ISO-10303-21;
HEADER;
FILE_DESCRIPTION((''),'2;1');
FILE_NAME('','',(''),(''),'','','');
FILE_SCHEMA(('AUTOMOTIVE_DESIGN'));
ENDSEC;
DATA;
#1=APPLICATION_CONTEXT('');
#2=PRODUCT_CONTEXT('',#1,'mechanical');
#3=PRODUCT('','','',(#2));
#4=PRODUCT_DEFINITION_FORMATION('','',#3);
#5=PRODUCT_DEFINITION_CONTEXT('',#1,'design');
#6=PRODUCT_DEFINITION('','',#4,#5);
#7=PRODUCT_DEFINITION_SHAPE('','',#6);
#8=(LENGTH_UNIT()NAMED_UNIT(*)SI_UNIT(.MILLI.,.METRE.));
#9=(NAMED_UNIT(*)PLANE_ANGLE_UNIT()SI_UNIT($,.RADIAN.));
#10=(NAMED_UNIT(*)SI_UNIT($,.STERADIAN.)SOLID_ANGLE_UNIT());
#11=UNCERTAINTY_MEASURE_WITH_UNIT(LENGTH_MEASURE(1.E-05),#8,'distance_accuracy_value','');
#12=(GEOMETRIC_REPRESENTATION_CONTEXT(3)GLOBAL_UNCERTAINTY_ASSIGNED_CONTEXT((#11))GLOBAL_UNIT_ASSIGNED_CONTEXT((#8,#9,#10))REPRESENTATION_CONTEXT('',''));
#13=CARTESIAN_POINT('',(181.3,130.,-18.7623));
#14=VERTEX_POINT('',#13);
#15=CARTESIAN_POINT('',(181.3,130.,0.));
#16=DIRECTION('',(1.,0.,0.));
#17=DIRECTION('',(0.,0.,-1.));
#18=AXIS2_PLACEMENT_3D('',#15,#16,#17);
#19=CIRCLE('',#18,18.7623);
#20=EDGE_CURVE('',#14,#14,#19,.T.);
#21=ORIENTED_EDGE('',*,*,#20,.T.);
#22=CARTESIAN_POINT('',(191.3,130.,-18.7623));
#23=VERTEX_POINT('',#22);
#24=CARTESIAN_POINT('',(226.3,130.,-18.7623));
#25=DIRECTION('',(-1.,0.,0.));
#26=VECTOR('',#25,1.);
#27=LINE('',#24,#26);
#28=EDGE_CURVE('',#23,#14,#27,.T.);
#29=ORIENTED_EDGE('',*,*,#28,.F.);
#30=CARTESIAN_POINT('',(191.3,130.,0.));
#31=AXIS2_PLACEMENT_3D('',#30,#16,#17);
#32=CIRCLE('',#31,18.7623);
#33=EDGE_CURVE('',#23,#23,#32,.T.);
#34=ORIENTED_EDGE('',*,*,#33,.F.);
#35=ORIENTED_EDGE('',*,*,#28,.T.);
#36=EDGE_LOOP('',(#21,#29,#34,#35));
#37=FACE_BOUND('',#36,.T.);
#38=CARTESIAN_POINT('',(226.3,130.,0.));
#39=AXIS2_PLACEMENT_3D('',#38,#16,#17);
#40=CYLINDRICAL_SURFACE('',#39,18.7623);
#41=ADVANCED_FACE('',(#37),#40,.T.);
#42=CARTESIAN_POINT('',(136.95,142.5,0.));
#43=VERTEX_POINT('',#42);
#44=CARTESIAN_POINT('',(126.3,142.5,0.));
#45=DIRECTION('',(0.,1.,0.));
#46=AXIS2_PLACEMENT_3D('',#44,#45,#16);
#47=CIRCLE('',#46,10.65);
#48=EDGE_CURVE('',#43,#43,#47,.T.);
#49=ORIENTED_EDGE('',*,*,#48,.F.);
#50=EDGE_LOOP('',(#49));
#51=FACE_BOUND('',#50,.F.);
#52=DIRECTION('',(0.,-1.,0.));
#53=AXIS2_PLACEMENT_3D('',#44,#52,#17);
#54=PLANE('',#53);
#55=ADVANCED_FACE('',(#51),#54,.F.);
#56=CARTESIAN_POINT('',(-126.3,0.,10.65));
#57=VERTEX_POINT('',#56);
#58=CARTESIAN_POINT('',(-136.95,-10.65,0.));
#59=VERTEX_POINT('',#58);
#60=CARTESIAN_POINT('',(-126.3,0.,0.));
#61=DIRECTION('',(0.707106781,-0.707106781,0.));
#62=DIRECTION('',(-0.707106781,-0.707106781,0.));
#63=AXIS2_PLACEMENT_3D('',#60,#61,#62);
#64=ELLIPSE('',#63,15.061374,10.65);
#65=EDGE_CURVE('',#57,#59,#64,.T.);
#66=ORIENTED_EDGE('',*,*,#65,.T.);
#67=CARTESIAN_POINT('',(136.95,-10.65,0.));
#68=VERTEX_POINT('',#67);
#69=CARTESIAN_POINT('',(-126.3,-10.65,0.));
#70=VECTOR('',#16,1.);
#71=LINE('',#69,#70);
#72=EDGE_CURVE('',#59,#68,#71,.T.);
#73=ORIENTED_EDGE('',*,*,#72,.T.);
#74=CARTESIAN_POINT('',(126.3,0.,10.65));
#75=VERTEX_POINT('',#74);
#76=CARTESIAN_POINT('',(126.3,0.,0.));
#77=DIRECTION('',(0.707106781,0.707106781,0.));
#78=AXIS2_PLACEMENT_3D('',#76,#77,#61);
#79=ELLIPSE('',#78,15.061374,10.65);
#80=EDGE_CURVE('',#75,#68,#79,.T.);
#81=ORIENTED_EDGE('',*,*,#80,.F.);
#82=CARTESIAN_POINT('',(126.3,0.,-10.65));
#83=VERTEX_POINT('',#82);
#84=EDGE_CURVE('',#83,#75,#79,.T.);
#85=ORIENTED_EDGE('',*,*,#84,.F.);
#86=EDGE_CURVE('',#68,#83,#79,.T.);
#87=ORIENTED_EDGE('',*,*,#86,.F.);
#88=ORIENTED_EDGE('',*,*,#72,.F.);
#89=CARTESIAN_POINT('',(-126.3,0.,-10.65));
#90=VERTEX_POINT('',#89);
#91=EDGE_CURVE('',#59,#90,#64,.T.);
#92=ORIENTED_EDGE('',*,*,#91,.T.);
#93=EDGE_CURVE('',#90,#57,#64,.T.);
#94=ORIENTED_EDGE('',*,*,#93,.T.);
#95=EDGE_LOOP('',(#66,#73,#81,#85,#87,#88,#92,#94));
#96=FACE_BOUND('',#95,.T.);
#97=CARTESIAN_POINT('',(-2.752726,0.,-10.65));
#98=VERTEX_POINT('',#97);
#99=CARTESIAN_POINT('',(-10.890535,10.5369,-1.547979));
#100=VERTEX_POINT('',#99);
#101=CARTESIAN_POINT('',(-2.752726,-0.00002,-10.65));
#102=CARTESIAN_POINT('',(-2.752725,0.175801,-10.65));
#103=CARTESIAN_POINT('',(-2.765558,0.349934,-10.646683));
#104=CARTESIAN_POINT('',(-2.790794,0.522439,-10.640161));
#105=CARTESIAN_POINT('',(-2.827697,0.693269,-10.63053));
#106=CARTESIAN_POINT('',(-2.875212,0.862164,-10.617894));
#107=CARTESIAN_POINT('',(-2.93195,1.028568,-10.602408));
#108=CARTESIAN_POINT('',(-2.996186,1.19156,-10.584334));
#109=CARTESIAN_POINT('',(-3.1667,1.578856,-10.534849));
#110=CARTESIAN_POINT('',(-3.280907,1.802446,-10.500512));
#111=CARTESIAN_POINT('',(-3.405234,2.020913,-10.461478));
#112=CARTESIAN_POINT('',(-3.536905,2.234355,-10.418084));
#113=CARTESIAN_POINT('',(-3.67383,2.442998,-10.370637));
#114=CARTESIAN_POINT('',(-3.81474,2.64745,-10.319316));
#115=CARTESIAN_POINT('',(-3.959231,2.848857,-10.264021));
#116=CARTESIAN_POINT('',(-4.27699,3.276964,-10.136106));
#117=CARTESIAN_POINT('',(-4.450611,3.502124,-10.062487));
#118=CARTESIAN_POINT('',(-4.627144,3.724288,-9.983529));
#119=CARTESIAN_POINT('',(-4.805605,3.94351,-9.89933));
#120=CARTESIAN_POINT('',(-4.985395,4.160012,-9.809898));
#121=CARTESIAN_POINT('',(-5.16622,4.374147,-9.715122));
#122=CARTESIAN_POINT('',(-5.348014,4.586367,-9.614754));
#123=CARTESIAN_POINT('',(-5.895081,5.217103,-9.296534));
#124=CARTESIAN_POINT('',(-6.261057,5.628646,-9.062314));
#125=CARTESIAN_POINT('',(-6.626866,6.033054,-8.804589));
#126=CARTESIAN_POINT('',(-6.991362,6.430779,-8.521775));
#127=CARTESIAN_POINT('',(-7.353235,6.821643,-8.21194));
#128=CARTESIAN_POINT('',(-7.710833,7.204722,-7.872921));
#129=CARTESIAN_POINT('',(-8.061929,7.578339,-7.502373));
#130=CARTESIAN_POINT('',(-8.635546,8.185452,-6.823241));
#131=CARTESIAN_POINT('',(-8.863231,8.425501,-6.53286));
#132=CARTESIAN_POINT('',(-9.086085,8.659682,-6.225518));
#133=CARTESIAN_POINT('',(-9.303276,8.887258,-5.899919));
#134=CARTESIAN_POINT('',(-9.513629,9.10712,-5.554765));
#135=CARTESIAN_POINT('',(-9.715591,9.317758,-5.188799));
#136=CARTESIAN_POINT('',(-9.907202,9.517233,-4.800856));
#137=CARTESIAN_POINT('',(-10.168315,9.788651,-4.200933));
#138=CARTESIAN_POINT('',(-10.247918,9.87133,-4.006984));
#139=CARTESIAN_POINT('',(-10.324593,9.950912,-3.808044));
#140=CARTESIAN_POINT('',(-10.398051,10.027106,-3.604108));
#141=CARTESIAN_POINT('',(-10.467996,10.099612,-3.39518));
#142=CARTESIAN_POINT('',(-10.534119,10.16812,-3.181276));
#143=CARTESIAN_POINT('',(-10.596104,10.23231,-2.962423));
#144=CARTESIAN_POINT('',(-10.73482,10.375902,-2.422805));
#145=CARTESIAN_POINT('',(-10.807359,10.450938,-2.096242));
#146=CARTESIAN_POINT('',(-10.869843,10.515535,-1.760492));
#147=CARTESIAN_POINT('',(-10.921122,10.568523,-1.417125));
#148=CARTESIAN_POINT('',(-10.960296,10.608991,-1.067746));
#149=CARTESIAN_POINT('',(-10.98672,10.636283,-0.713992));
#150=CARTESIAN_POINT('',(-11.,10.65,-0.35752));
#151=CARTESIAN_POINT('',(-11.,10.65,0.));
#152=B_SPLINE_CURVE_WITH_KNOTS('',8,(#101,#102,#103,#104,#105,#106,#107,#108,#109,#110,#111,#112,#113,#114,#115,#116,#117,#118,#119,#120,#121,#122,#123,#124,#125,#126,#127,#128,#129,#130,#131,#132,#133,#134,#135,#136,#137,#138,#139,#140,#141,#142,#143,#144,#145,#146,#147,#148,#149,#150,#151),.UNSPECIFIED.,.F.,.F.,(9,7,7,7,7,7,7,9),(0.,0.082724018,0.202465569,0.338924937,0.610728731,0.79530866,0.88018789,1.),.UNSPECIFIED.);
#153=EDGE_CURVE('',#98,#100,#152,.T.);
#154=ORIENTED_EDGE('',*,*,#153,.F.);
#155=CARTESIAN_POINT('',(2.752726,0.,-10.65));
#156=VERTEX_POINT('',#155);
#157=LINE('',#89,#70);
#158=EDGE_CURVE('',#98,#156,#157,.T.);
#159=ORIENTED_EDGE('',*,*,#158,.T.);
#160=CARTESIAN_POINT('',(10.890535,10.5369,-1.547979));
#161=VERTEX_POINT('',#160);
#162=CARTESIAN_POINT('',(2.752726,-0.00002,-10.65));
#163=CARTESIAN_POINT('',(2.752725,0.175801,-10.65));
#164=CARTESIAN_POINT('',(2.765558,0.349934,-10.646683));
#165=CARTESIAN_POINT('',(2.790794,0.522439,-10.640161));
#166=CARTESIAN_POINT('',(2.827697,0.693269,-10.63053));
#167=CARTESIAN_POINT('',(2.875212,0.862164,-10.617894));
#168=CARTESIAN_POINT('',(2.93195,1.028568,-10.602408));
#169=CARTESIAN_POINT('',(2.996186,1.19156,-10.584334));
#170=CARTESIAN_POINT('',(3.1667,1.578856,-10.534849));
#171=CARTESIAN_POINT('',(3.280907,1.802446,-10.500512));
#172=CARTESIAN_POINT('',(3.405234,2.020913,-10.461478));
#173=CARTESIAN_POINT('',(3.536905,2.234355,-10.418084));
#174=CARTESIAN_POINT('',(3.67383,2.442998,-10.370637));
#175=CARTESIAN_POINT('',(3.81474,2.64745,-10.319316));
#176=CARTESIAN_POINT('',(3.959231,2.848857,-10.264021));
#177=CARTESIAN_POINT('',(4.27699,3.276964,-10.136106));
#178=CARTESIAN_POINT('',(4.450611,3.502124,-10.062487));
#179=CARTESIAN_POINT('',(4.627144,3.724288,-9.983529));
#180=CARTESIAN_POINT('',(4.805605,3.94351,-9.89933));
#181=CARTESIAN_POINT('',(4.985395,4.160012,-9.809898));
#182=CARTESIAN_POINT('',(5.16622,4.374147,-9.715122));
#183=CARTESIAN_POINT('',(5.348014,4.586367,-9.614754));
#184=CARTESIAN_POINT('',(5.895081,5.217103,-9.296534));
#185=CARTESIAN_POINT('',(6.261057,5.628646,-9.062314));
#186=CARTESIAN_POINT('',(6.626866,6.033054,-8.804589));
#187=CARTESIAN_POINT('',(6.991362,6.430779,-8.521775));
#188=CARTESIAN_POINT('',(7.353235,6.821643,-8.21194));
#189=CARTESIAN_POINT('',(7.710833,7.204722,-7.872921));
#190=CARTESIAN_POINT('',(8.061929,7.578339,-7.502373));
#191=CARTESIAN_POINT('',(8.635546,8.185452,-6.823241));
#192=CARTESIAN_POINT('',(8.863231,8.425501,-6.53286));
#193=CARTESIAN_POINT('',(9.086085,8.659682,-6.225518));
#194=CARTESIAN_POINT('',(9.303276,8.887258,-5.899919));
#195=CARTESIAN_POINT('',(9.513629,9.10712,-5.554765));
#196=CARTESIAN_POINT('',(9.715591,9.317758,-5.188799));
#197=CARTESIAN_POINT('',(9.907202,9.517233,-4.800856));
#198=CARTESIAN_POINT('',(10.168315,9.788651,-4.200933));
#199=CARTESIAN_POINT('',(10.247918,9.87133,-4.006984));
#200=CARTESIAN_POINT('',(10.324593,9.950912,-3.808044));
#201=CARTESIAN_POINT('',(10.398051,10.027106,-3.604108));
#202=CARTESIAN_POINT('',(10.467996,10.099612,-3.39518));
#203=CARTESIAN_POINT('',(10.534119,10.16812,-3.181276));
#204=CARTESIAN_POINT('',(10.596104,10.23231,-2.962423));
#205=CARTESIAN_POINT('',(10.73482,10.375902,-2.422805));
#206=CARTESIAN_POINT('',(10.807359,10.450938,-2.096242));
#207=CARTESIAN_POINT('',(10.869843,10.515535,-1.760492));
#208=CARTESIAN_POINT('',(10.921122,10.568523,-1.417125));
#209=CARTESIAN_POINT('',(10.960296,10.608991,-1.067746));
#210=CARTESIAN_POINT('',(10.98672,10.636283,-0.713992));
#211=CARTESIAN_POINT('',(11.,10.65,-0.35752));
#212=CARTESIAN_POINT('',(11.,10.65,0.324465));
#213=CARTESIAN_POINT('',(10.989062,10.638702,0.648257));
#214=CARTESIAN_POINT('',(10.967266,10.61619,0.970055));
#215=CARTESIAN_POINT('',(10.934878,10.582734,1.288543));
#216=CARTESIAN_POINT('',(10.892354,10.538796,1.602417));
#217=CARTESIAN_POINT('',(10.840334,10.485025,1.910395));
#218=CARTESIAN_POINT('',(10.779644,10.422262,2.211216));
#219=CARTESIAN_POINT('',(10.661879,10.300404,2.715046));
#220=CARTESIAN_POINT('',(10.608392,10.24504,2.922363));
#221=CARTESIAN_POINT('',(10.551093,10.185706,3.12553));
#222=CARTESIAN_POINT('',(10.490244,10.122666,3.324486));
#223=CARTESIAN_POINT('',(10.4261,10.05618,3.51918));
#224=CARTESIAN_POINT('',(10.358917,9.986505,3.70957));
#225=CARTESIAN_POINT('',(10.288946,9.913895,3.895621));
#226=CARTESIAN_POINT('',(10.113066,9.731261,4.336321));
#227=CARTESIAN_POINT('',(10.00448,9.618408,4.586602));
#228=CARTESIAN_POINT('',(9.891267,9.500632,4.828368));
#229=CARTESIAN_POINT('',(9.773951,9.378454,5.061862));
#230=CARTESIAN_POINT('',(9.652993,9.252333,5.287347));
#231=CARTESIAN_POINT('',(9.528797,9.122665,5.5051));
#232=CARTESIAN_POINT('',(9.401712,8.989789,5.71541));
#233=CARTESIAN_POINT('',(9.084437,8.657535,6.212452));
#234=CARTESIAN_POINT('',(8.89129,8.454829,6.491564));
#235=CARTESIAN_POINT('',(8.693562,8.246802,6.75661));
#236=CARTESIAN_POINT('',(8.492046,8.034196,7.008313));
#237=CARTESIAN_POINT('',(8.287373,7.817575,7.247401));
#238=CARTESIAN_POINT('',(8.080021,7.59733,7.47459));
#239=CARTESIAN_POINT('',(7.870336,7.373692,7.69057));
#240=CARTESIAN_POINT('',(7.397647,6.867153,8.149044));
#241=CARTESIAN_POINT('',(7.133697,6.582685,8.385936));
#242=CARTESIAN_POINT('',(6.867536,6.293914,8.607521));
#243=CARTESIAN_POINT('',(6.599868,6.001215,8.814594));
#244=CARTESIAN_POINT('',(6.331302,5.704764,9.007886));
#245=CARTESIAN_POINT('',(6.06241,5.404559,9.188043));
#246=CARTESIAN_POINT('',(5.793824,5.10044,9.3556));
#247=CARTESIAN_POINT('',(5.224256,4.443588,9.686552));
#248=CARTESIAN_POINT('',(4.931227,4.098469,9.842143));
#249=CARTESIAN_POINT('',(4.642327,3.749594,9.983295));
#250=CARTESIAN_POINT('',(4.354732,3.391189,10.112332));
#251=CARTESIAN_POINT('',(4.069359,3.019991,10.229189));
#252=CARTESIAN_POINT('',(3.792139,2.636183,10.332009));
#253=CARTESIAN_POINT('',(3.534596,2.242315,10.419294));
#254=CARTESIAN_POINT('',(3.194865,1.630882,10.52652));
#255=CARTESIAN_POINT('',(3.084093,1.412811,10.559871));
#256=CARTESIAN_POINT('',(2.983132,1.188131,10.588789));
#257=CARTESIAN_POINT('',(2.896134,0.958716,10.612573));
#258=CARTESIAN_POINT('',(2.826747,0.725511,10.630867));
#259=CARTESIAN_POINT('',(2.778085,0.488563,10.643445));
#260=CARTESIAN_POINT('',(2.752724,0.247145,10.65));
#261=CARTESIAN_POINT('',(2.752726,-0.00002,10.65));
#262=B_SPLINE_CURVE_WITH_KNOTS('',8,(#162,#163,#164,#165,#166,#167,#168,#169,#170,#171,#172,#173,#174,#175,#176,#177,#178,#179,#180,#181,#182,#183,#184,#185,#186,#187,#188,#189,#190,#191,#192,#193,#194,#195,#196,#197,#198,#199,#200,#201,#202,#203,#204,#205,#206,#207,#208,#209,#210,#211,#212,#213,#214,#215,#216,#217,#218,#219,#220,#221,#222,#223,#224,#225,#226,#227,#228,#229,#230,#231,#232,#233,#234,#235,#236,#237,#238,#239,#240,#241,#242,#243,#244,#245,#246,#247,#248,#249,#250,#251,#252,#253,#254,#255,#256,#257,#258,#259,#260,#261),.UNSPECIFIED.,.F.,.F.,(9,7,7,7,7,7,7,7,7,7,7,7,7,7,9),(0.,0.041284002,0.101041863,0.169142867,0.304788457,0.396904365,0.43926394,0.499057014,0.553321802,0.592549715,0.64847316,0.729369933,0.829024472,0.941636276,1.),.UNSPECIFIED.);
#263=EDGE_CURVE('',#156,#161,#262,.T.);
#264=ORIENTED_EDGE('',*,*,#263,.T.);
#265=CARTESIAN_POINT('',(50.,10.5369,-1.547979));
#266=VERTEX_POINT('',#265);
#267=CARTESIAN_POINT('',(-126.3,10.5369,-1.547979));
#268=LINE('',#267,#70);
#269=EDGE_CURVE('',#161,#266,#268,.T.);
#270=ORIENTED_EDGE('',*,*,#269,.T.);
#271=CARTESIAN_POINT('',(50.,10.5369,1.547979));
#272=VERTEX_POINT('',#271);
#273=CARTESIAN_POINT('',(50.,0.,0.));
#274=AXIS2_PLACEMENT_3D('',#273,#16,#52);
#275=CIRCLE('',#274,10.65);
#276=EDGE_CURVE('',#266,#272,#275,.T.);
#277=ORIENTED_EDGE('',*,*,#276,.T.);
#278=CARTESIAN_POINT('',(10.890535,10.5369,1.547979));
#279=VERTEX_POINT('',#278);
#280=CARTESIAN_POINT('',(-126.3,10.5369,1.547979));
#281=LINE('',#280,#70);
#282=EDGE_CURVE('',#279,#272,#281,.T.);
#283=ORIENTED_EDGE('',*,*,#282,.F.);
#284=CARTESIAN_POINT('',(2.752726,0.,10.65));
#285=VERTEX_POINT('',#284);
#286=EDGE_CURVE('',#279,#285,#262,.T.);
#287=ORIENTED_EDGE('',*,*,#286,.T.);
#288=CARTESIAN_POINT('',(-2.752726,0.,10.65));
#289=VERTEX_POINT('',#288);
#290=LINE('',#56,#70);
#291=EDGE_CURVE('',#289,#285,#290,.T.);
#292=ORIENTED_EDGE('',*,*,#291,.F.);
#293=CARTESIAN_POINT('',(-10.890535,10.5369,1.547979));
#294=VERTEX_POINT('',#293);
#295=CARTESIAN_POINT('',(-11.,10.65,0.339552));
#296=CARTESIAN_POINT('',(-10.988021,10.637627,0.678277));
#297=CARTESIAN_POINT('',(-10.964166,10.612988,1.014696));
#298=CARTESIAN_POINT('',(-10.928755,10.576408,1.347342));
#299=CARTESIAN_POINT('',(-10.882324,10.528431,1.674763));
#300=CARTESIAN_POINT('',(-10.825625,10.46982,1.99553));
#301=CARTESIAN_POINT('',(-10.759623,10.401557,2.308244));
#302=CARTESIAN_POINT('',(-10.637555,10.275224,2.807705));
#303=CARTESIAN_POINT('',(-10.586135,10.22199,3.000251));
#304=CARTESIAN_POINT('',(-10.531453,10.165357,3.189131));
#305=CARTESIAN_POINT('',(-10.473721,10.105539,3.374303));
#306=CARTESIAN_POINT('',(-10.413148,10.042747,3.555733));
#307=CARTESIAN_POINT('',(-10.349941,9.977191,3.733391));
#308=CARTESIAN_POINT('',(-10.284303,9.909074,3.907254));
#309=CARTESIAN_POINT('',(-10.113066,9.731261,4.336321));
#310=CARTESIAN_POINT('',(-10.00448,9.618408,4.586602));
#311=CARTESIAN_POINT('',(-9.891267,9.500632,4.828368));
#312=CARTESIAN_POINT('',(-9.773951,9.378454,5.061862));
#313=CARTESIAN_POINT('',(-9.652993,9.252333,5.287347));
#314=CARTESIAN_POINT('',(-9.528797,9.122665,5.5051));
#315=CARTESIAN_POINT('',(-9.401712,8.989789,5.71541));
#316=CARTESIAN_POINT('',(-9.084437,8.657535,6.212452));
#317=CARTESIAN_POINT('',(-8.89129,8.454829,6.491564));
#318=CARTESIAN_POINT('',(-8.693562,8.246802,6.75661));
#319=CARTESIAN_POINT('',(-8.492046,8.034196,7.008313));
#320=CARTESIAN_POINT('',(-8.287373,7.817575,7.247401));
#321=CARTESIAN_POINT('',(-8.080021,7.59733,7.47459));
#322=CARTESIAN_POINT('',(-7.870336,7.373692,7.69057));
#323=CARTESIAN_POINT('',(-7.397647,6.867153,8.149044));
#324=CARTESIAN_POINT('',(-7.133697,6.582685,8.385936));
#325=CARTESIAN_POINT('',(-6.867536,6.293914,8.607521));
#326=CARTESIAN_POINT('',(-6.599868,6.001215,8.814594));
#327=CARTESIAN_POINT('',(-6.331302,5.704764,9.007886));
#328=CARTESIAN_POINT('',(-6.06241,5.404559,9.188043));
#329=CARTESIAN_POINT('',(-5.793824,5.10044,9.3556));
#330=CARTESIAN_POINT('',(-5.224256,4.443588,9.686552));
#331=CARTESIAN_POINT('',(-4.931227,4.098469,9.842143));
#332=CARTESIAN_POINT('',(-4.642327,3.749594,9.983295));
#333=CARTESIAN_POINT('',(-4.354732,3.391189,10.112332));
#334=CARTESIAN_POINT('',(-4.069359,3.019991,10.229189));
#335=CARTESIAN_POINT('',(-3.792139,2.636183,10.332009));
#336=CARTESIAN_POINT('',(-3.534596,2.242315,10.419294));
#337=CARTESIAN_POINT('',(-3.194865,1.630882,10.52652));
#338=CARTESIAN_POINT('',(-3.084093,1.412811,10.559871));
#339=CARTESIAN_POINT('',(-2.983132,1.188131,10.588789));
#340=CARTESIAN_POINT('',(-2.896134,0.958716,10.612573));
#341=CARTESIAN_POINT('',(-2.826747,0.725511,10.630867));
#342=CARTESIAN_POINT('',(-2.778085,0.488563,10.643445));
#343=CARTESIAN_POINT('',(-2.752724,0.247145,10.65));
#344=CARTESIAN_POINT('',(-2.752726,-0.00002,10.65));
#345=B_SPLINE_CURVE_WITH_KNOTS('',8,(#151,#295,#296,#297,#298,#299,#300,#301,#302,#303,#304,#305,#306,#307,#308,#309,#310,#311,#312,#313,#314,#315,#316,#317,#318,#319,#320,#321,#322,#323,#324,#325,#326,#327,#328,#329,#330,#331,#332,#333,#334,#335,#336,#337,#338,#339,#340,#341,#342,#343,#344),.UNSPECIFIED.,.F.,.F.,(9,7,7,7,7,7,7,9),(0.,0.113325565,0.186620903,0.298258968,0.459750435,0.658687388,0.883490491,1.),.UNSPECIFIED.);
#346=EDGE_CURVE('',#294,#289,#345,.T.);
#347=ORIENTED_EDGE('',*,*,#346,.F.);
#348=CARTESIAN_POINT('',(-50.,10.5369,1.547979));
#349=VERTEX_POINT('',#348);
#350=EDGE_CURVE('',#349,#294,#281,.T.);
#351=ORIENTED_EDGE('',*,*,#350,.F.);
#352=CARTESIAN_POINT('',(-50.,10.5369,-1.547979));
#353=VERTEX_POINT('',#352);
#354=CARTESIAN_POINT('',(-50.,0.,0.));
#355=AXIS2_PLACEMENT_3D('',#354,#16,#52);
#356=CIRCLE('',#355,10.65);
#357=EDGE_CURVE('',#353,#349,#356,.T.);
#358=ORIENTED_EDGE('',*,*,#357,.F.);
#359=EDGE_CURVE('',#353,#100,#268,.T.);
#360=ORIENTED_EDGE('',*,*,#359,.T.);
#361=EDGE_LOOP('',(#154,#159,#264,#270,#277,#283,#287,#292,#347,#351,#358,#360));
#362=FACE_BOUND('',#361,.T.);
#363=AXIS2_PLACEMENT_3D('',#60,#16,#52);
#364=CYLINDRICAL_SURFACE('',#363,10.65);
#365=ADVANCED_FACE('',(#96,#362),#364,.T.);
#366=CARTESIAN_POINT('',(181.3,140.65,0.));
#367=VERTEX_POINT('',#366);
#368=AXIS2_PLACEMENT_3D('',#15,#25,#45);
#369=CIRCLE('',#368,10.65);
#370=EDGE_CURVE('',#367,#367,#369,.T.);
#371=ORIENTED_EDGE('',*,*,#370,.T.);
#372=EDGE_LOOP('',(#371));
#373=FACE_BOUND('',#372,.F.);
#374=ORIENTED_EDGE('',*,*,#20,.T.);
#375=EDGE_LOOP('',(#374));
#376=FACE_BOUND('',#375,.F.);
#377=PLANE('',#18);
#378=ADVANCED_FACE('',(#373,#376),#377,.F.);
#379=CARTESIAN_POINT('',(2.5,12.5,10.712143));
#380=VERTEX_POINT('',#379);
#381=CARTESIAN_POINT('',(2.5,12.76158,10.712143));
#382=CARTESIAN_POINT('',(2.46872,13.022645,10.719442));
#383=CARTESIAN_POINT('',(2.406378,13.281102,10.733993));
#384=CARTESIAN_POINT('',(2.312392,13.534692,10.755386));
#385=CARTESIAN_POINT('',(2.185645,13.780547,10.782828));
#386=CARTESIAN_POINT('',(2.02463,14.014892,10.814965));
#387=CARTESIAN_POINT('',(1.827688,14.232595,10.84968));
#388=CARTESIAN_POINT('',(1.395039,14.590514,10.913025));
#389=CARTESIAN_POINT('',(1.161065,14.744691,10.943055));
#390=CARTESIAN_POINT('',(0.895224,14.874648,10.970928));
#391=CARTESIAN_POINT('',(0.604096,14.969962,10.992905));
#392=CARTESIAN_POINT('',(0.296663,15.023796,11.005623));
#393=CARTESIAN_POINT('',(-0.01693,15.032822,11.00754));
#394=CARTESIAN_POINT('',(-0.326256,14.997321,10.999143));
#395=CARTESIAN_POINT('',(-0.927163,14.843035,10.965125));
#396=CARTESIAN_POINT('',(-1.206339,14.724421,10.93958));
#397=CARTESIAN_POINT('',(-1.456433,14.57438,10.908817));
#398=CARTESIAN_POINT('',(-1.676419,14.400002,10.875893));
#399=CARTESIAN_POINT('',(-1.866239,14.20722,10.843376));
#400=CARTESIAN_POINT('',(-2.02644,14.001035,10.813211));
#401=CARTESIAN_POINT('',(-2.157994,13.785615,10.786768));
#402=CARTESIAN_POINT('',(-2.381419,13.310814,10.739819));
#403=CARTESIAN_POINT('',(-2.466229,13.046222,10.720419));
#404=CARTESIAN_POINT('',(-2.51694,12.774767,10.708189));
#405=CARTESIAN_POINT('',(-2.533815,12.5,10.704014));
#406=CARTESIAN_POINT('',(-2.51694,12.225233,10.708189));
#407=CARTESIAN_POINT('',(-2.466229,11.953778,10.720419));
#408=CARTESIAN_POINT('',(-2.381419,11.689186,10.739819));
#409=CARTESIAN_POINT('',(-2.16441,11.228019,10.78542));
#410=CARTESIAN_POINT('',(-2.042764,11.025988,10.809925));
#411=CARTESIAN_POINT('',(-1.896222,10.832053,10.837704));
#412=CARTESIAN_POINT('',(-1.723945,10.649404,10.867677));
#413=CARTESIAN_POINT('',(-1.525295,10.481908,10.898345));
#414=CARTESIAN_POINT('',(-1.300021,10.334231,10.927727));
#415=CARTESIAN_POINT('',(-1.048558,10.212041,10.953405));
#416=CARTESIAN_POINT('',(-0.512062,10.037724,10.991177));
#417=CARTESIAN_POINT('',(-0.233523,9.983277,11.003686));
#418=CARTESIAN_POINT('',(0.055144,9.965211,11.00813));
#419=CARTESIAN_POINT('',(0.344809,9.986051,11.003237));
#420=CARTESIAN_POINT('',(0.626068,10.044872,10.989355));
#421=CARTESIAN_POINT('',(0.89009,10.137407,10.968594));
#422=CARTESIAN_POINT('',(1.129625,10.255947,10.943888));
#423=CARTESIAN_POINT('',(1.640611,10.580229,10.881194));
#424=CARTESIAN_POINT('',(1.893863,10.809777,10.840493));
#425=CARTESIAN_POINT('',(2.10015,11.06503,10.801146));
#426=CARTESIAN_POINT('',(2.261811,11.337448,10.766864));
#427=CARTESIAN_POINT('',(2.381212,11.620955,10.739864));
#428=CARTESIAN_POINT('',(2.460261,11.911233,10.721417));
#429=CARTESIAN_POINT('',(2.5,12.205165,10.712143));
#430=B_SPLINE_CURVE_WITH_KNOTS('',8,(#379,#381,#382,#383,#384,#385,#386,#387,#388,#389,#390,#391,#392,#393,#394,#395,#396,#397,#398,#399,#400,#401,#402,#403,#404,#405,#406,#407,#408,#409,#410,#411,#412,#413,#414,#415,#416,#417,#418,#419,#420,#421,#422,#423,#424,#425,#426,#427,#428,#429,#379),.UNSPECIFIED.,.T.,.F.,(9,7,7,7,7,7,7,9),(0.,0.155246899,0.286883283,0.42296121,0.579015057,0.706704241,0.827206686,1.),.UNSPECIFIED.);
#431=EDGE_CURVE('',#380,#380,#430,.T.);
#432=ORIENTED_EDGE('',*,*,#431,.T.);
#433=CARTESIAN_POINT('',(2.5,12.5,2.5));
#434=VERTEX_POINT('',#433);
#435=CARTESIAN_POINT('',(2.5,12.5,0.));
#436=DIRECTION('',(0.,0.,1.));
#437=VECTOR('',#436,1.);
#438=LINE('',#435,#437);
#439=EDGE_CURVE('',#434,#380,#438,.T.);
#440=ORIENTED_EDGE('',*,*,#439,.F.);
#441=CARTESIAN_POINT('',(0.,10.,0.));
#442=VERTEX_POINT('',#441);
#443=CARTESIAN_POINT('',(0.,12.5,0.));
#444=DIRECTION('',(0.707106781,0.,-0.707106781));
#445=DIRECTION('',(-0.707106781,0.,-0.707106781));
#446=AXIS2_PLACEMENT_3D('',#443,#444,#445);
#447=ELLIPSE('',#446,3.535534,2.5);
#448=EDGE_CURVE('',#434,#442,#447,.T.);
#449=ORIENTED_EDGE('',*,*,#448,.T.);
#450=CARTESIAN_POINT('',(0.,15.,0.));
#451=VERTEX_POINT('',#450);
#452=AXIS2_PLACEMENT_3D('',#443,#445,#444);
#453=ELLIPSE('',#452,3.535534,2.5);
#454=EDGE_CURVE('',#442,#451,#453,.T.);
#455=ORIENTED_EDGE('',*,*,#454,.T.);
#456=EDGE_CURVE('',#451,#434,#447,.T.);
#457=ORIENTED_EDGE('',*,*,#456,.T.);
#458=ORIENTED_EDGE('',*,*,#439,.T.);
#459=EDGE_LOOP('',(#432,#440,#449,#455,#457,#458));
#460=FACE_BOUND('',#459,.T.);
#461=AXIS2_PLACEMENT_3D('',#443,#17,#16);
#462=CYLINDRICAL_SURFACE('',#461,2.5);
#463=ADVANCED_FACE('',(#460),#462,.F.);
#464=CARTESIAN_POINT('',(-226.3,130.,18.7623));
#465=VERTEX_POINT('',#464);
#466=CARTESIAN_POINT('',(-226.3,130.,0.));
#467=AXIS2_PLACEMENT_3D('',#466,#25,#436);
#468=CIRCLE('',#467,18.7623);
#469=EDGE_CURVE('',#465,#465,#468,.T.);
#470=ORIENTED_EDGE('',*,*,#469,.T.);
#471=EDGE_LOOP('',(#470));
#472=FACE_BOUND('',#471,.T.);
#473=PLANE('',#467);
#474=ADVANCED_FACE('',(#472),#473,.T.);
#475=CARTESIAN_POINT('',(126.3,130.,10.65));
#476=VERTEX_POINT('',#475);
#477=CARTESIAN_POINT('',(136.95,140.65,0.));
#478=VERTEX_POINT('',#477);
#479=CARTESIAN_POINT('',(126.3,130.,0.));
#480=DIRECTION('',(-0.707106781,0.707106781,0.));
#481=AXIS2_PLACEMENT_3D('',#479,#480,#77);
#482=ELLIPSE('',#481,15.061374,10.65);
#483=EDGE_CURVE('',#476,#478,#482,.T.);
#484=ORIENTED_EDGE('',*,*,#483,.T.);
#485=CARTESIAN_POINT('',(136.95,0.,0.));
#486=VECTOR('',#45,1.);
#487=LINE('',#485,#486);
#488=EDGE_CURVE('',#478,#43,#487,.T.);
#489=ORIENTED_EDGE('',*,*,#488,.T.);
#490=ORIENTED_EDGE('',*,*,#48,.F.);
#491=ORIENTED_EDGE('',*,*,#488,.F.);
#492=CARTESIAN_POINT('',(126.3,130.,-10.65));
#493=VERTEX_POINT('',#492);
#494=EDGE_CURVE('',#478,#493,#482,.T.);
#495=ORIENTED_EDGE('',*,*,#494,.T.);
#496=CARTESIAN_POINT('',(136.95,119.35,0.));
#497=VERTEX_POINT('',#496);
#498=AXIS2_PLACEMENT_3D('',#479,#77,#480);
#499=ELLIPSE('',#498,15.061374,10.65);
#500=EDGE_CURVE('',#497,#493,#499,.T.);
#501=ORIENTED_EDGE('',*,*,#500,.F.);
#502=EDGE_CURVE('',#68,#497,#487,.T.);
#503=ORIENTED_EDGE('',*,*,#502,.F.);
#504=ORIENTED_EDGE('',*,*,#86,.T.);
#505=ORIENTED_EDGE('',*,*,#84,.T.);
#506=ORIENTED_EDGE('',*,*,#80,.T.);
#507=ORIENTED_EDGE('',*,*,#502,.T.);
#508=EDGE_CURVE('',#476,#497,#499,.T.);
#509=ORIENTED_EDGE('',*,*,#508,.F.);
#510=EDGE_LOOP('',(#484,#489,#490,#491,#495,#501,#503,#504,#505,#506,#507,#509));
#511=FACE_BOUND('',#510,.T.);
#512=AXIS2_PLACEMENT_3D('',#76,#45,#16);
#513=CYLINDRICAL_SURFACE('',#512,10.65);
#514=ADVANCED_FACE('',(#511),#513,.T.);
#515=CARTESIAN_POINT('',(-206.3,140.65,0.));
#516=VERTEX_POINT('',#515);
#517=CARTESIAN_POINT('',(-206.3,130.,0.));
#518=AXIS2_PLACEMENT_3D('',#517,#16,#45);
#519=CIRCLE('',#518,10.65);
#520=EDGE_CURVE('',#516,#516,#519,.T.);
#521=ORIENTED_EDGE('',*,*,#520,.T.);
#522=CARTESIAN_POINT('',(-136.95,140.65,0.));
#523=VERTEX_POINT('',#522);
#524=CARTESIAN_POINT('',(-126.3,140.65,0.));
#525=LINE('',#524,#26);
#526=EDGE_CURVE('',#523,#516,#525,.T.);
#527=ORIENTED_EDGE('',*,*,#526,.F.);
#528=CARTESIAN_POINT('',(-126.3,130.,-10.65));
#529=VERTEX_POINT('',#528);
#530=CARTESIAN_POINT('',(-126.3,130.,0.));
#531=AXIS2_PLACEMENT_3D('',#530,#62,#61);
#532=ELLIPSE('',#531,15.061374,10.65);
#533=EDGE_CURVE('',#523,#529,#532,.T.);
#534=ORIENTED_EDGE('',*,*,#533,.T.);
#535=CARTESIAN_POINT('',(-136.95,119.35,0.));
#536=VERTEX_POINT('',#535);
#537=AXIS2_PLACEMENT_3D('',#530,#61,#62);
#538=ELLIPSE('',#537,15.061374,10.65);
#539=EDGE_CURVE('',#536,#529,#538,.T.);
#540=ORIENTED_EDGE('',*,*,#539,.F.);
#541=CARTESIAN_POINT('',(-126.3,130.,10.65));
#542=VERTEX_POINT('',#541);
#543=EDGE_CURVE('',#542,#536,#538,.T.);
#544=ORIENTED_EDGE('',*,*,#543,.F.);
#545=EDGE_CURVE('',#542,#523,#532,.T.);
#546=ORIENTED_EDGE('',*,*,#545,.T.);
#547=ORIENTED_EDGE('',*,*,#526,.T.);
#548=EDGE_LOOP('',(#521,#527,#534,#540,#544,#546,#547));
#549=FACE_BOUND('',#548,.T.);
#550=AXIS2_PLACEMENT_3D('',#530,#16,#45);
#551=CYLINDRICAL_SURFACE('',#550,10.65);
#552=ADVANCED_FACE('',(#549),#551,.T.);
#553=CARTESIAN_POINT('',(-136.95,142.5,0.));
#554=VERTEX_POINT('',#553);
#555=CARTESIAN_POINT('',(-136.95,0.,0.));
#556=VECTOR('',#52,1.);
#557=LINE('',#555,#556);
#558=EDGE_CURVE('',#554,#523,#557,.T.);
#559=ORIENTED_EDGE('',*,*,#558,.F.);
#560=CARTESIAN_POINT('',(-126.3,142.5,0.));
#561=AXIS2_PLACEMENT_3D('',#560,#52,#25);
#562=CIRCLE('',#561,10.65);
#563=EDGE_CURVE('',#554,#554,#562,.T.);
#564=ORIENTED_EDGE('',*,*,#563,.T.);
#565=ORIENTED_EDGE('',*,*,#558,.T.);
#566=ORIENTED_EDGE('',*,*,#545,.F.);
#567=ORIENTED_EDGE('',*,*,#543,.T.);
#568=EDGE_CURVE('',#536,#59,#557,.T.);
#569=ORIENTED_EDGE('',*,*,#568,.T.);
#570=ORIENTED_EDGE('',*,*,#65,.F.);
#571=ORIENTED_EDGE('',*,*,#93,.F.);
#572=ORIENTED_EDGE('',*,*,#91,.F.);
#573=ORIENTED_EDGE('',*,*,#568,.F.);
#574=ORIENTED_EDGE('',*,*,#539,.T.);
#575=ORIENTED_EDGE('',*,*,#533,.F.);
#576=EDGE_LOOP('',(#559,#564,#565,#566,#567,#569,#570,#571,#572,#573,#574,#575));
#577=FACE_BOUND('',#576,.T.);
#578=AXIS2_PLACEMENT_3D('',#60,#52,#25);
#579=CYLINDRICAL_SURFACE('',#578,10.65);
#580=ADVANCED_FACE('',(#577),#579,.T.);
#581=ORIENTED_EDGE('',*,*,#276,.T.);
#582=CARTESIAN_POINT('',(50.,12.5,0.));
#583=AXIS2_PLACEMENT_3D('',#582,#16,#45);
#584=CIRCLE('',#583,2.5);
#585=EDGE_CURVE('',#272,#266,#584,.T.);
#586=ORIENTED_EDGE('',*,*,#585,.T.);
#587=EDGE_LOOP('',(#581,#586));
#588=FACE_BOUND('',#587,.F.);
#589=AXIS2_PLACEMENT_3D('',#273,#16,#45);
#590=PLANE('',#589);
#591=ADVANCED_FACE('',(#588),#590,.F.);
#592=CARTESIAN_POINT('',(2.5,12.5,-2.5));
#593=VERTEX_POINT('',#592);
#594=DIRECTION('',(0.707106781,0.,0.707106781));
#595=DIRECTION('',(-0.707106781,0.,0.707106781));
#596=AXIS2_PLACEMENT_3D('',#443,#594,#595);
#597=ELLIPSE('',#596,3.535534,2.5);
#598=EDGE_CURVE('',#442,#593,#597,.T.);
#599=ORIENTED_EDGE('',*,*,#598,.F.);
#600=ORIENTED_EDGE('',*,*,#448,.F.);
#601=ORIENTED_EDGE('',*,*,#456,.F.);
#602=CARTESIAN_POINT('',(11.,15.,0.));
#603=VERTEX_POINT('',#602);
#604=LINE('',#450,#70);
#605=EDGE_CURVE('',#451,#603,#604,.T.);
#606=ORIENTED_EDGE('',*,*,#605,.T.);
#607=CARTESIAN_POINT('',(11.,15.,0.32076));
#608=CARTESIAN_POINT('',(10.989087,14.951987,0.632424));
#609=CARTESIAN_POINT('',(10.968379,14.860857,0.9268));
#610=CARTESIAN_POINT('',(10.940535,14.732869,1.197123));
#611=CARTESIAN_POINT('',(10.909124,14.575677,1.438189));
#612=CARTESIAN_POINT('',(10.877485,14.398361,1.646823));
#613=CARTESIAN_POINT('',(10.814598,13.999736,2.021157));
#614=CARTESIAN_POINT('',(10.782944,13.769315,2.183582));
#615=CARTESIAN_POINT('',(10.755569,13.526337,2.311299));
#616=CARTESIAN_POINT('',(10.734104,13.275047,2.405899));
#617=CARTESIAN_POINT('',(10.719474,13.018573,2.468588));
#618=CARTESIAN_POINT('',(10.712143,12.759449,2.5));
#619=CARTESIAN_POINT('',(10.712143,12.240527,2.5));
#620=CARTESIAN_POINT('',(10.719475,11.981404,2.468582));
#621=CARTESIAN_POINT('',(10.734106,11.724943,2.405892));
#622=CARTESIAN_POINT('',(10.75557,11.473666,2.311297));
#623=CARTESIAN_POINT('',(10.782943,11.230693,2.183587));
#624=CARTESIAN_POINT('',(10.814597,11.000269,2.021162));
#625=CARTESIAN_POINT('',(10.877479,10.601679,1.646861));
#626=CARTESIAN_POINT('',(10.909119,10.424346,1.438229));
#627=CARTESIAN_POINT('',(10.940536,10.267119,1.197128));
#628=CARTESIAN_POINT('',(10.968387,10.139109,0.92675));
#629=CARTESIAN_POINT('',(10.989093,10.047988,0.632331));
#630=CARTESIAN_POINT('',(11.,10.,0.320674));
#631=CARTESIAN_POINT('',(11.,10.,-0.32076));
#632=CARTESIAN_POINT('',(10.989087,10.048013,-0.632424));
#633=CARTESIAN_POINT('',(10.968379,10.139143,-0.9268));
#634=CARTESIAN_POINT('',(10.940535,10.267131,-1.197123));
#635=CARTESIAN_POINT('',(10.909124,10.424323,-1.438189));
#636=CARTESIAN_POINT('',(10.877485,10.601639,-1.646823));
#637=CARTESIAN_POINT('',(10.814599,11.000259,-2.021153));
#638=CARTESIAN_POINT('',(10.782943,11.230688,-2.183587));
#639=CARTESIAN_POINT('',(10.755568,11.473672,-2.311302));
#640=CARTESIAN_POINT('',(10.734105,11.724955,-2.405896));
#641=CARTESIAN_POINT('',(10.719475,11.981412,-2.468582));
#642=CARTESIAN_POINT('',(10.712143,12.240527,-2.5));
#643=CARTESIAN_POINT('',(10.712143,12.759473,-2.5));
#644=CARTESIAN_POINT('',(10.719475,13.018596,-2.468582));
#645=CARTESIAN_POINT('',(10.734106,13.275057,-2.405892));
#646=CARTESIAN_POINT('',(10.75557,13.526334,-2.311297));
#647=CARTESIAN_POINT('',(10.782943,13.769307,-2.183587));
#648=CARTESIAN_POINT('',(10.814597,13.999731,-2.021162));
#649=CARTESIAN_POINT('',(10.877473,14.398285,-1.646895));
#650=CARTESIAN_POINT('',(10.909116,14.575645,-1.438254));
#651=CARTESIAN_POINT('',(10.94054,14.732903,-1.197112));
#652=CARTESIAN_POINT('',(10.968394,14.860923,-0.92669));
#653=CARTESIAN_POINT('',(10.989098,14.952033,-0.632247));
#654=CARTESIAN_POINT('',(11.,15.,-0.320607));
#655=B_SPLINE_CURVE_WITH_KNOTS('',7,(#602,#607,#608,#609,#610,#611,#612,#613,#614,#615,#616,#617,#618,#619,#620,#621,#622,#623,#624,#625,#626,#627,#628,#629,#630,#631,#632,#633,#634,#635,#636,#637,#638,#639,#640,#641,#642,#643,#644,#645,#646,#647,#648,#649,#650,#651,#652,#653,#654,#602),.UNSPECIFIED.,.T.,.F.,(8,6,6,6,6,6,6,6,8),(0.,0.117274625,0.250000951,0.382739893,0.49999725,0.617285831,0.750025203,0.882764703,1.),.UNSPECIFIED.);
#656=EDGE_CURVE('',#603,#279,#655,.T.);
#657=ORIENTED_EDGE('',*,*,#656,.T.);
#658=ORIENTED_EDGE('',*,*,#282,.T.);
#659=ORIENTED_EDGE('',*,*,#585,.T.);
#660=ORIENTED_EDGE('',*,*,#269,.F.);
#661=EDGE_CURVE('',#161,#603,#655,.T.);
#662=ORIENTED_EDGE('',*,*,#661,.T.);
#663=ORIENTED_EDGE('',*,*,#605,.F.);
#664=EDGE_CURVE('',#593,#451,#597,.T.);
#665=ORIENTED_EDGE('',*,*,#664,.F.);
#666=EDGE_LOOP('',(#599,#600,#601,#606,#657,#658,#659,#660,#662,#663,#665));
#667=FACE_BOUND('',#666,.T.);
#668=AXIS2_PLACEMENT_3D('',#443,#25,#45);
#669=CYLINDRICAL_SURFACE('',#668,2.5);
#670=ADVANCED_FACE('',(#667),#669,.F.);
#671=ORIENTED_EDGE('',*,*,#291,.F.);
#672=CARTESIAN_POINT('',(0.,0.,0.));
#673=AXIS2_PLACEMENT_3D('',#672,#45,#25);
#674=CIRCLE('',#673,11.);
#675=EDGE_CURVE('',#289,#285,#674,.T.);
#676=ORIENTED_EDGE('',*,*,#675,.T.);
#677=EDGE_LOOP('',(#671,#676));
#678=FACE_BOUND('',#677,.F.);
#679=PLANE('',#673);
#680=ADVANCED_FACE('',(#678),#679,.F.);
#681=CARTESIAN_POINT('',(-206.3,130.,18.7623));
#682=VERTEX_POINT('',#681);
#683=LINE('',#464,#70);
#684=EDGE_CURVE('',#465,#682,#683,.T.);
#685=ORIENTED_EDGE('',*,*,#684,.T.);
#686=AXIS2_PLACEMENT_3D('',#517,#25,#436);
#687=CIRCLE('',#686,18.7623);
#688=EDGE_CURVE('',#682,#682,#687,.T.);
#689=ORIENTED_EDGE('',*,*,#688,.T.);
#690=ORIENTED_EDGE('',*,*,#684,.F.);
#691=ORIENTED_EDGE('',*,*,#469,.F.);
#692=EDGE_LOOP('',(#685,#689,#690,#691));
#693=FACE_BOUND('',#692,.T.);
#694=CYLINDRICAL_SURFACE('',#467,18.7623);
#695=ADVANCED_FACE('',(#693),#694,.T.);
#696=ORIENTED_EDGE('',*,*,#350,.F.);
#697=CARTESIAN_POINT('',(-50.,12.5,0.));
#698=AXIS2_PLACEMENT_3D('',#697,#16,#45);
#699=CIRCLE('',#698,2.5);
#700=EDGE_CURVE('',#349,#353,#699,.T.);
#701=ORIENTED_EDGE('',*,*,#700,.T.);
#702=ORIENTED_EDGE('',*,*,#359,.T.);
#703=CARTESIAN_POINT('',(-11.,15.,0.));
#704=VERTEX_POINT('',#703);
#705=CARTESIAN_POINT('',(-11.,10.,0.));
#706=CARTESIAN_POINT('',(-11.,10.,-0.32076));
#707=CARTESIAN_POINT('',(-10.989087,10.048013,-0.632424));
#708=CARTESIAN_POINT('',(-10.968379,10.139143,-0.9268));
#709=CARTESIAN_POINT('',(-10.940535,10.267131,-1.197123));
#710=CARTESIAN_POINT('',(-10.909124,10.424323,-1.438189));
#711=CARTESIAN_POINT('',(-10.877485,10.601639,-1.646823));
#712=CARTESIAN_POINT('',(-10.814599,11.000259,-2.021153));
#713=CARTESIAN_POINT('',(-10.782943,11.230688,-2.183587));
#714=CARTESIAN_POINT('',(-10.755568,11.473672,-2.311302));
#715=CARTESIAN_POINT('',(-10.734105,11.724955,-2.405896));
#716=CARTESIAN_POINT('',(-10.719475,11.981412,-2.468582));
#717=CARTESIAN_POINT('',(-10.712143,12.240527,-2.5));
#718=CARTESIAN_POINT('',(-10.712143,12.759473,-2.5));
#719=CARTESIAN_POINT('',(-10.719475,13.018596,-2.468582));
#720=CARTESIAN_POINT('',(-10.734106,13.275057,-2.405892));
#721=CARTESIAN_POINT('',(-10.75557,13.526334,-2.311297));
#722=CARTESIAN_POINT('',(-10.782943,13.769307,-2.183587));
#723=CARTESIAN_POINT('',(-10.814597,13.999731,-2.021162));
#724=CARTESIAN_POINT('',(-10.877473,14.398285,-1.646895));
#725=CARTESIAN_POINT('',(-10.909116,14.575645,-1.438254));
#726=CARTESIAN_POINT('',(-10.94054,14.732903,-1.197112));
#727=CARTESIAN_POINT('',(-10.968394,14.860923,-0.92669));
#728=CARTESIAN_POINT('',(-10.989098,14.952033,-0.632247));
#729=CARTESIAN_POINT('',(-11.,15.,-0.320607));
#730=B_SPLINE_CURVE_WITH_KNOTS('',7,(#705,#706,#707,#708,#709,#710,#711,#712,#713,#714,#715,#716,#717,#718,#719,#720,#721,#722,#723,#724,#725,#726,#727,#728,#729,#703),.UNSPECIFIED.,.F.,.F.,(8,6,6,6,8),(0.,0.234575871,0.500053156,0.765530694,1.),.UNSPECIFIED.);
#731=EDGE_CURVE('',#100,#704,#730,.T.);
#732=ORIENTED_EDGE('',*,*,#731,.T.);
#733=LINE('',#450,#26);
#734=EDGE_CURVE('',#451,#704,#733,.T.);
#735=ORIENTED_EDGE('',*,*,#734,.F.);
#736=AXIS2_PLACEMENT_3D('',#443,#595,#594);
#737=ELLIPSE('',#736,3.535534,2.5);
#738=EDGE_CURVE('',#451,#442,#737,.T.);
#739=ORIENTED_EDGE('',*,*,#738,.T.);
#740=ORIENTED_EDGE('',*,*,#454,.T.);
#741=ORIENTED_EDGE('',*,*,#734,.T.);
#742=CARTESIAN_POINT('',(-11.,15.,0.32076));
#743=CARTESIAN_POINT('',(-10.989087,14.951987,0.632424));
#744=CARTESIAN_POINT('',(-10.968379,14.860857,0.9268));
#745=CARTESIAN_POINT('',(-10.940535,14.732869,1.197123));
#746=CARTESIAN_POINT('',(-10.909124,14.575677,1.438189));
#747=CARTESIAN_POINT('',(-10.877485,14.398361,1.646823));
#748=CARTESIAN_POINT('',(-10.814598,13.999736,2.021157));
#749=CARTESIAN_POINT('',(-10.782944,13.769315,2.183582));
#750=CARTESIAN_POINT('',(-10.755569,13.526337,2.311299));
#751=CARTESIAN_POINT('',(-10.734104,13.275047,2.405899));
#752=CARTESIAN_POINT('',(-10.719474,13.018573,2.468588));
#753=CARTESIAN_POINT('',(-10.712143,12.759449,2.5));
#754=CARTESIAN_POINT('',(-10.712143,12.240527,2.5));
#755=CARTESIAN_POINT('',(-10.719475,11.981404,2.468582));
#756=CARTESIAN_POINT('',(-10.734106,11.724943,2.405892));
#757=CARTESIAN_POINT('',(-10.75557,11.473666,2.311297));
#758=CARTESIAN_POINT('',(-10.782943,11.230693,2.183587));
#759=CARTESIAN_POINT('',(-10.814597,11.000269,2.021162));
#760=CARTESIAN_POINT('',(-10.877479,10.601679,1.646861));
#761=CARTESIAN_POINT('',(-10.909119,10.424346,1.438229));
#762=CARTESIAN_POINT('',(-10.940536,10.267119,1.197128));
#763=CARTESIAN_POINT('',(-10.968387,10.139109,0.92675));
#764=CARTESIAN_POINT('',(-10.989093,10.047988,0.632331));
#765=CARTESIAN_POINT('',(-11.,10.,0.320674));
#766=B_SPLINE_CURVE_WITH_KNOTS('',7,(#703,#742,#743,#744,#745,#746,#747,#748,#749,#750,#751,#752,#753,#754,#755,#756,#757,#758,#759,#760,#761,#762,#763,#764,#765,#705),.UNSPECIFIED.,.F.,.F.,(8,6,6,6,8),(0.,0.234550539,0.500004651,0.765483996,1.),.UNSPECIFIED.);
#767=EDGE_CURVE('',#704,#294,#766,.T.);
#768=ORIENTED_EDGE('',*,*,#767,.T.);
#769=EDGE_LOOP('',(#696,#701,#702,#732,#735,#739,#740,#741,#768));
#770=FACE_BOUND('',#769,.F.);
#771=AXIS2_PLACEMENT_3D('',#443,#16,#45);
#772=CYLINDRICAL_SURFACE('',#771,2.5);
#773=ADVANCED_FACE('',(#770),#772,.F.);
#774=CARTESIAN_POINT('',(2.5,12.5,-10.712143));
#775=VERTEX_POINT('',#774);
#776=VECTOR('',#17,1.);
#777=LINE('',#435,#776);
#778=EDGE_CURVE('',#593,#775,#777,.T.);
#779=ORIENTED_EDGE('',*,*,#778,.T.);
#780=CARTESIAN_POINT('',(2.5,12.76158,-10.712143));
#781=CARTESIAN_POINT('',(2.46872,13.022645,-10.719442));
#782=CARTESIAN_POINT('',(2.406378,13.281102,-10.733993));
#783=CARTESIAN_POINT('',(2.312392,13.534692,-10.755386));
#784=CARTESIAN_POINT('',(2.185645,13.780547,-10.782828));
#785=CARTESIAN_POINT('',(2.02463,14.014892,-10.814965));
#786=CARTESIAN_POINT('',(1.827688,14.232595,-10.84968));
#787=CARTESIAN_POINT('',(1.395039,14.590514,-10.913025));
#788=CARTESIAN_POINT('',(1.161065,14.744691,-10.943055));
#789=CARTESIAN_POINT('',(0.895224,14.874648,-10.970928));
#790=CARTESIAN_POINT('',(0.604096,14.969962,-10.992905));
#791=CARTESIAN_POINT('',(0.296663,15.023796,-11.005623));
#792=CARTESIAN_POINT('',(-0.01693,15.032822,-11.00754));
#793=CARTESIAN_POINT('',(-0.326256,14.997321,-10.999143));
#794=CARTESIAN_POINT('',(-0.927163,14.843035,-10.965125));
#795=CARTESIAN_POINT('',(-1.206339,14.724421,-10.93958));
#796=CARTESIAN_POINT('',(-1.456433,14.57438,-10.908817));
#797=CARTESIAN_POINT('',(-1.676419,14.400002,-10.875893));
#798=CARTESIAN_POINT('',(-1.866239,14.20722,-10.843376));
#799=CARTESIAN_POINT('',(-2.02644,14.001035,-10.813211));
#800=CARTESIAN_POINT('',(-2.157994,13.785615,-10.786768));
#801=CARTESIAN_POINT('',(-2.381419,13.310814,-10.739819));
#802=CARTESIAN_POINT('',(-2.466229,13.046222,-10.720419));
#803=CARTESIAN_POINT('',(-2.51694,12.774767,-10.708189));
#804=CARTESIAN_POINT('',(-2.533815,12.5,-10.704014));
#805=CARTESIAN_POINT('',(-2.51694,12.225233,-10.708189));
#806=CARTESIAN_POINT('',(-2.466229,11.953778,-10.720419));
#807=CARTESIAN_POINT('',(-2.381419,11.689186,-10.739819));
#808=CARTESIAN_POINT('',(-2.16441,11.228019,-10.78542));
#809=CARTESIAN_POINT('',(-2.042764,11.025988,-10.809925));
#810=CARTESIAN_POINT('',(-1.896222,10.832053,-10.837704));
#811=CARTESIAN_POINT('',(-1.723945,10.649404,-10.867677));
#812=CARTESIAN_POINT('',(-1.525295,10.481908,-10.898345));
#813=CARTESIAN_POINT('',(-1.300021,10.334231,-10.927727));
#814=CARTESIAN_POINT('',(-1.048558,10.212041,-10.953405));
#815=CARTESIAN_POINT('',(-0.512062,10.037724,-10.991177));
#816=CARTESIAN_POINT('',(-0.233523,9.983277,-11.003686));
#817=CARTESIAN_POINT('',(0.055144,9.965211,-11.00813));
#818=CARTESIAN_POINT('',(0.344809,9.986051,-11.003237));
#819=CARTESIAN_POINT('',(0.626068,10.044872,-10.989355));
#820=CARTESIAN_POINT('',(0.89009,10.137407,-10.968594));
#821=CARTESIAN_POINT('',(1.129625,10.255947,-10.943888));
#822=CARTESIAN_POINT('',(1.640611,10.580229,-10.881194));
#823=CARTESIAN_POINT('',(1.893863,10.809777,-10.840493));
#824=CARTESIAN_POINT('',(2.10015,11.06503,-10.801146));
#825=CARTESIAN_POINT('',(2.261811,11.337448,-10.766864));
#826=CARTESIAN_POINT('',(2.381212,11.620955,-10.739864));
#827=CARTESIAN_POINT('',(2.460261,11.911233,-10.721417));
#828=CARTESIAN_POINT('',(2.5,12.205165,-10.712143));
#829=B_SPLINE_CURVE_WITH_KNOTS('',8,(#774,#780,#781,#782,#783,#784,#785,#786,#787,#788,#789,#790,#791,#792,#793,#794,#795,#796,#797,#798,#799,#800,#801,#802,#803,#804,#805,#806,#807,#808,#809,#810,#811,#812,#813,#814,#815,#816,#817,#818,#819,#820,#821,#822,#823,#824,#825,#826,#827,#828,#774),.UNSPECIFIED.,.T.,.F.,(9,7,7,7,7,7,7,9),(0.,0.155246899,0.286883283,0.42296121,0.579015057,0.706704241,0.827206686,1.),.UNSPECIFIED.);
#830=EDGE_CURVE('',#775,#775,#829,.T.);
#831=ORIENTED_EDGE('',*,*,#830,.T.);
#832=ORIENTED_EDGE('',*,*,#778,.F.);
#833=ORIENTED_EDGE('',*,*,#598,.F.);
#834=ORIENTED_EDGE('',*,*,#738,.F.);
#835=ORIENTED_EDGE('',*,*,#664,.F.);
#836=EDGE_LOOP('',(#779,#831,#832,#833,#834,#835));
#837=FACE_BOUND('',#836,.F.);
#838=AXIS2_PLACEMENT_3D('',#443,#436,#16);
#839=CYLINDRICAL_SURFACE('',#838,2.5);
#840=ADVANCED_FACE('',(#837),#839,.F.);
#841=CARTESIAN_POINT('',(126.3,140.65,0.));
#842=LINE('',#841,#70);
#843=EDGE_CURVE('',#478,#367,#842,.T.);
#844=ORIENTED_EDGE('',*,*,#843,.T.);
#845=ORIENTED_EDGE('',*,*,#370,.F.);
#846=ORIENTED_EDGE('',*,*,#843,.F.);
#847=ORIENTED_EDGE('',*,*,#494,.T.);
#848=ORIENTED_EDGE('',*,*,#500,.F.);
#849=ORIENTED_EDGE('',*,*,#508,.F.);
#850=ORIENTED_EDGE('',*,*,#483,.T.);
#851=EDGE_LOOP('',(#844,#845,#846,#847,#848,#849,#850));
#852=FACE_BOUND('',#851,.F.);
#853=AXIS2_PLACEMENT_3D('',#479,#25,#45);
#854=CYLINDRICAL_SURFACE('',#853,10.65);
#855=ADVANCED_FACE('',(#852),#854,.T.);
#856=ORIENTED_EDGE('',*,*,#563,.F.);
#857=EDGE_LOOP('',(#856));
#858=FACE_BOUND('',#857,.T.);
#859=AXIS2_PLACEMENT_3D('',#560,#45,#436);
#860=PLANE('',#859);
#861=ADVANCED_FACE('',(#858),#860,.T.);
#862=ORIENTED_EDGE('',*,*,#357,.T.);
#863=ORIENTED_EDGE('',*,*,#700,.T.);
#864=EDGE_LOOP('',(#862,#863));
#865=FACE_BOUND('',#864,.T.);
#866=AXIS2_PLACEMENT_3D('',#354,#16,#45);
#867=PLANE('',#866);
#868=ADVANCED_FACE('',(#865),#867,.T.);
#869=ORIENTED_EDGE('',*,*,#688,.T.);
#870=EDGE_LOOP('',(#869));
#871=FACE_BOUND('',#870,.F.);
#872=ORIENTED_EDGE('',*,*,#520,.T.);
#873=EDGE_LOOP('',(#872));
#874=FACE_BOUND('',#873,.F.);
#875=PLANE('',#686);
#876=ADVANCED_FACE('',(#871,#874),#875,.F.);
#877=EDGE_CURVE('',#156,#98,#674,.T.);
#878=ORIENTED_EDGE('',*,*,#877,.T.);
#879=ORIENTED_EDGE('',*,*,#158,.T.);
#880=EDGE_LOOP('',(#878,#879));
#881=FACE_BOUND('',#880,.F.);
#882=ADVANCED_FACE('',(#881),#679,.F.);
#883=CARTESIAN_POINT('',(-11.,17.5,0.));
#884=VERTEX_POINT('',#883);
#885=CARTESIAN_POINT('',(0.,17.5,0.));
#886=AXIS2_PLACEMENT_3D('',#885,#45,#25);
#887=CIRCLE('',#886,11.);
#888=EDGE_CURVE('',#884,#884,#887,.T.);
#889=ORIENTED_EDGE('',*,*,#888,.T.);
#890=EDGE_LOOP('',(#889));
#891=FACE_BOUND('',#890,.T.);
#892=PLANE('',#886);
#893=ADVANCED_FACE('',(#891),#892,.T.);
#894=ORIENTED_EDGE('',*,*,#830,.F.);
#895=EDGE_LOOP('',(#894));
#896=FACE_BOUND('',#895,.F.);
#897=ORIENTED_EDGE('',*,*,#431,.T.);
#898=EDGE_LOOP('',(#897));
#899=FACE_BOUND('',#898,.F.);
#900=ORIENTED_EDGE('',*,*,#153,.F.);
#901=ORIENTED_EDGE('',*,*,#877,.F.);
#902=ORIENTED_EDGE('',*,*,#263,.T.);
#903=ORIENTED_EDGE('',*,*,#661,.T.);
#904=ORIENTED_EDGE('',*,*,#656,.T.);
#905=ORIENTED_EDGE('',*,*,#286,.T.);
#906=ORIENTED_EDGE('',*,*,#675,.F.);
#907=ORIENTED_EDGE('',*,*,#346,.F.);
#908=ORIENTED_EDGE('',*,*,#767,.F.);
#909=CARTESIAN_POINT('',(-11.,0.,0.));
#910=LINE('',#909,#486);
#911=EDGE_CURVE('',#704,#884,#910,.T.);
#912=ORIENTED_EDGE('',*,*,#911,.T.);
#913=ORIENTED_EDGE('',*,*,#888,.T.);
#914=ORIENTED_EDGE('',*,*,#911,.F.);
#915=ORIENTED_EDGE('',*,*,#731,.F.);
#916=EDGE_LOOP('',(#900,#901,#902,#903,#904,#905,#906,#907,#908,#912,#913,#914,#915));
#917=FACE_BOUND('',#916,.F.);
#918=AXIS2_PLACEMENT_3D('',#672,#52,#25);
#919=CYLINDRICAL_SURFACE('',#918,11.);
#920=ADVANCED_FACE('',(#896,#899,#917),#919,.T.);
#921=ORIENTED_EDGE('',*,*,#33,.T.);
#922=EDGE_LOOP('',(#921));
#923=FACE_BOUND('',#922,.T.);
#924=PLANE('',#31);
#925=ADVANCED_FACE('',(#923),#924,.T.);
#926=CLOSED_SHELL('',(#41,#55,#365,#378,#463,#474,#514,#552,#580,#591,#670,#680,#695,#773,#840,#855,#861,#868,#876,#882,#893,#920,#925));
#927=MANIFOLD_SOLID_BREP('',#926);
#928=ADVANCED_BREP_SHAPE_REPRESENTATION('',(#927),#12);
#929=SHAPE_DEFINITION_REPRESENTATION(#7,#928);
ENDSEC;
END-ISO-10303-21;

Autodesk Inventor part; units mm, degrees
sketch "Sketch1" plane through (0, 0, 0) normal (0, 0, 1) x (1, 0, 0)
  line L0 (-126.3, 0) -> (126.3, 0)
  line L1 (126.3, 0) -> (126.3, 142.5)
  line L2 (126.3, 0) -> (268.8, 0) construction
  line L3 (-126.3, 0) -> (-126.3, 142.5)
  point P0 (0, 0)
  dimension "d0" = 252.6
  dimension "d1" = 142.5
  dimension "d2" = 90
  dimension "d3" = 142.5
ref_plane "Work Plane1" through (-126.3, 142.5, 0) normal (0, 1, 0) x (-1, 0, 0)
sketch "Sketch2" plane through (-126.3, 142.5, 0) normal (0, 1, 0) x (-1, 0, 0)
  circle A0 centre (0, 0) radius 10.65
  point P0 (-126.3, 0)
  dimension "d4" = 21.3
sweep "Sweep1" add profiles "Sketch2" path "Sketch1"
ref_plane "Work Plane2" through (0, 0, 0) normal (0, 1, 0) x (-1, 0, 0)
sketch "Sketch3" plane through (0, 0, 0) normal (0, 1, 0) x (-1, 0, 0)
  circle A0 centre (0, 0) radius 11
  dimension "d8" = 22
extrude "Extrusion1" add sketch "Sketch3" along normal blind 17.5
ref_plane "Work Plane3" through (0, 0, 0) normal (0, 0, 1) x (1, 0, 0)
sketch "Sketch4" plane through (0, 0, 0) normal (0, 0, 1) x (1, 0, 0)
  circle A0 centre (0, 12.5) radius 2.5
  point P0 (0, 0)
  dimension "d12" = 5
extrude "Extrusion2" cut sketch "Sketch4" along normal mid plane 100
ref_plane "Work Plane4" through (0, 0, 0) normal (1, 0, 0) x (0, 1, 0)
sketch "Sketch5" plane through (0, 0, 0) normal (1, 0, 0) x (0, 1, 0)
  circle A0 centre (12.5, 0) radius 2.5
  point P0 (0, 0)
  dimension "d16" = 5
extrude "Extrusion3" cut sketch "Sketch5" along normal mid plane 100
sketch "Sketch6" plane through (-126.3, 142.5, 0) normal (0, 1, 0) x (1, 0, 0)
  circle A0 centre (0, 0) radius 10.65 projected
  point P0 (126.3, 0)
sketch "Sketch7" plane through (126.3, 142.5, 0) normal (0, 1, 0) x (1, 0, 0)
  circle A0 centre (0, 0) radius 10.65 projected
  point P0 (-126.3, 0)
ref_plane "Work Plane6" through (126.3, 0, 0) normal (1, 0, 0) x (0, 1, 0)
ref_plane "Work Plane7" through (-126.3, 0, 0) normal (1, 0, 0) x (0, 1, 0)
sketch "Sketch8" plane through (-126.3, 0, 0) normal (1, 0, 0) x (0, 1, 0)
  line L0 (142.5, -10.65) -> (142.5, 10.65) projected
  circle A0 centre (130, 0) radius 10.65
  point P0 (0, 0)
  point P1 (142.5, 0)
  dimension "d21" = 21.3
extrude "Extrusion4" add sketch "Sketch8" against normal blind 100
sketch "Sketch9" plane through (126.3, 0, 0) normal (1, 0, 0) x (0, 1, 0)
  circle A0 centre (130, 0) radius 10.65 projected
  circle A1 centre (130, 0) radius 10.65
  point P0 (0, 0)
extrude "Extrusion5" add sketch "Sketch9" along normal blind 100
sketch "Sketch10" plane through (-226.3, 130, 0) normal (-1, 0, 0) x (0, 0, 1)
  circle A0 centre (0, 0) radius 18.7623
  point P0 (0, -130)
extrude "Extrusion6" add sketch "Sketch10" against normal blind 20
sketch "Sketch11" plane through (226.3, 130, 0) normal (1, 0, 0) x (0, 0, -1)
  circle A0 centre (0, 0) radius 10.65 projected
  circle A1 centre (0, 0) radius 18.7623
  point P0 (0, -130)
extrude "Extrusion7" add sketch "Sketch11" against normal blind 45 contours A0 | A1
sketch "Sketch12" plane through (226.3, 130, 0) normal (1, 0, 0) x (0, 0, -1)
  circle A0 centre (0, 0) radius 18.7623
  point P0 (0, -130)
extrude "Extrusion8" cut sketch "Sketch12" against normal blind 35
properties part number "newhands" material "PVC-Piping"
